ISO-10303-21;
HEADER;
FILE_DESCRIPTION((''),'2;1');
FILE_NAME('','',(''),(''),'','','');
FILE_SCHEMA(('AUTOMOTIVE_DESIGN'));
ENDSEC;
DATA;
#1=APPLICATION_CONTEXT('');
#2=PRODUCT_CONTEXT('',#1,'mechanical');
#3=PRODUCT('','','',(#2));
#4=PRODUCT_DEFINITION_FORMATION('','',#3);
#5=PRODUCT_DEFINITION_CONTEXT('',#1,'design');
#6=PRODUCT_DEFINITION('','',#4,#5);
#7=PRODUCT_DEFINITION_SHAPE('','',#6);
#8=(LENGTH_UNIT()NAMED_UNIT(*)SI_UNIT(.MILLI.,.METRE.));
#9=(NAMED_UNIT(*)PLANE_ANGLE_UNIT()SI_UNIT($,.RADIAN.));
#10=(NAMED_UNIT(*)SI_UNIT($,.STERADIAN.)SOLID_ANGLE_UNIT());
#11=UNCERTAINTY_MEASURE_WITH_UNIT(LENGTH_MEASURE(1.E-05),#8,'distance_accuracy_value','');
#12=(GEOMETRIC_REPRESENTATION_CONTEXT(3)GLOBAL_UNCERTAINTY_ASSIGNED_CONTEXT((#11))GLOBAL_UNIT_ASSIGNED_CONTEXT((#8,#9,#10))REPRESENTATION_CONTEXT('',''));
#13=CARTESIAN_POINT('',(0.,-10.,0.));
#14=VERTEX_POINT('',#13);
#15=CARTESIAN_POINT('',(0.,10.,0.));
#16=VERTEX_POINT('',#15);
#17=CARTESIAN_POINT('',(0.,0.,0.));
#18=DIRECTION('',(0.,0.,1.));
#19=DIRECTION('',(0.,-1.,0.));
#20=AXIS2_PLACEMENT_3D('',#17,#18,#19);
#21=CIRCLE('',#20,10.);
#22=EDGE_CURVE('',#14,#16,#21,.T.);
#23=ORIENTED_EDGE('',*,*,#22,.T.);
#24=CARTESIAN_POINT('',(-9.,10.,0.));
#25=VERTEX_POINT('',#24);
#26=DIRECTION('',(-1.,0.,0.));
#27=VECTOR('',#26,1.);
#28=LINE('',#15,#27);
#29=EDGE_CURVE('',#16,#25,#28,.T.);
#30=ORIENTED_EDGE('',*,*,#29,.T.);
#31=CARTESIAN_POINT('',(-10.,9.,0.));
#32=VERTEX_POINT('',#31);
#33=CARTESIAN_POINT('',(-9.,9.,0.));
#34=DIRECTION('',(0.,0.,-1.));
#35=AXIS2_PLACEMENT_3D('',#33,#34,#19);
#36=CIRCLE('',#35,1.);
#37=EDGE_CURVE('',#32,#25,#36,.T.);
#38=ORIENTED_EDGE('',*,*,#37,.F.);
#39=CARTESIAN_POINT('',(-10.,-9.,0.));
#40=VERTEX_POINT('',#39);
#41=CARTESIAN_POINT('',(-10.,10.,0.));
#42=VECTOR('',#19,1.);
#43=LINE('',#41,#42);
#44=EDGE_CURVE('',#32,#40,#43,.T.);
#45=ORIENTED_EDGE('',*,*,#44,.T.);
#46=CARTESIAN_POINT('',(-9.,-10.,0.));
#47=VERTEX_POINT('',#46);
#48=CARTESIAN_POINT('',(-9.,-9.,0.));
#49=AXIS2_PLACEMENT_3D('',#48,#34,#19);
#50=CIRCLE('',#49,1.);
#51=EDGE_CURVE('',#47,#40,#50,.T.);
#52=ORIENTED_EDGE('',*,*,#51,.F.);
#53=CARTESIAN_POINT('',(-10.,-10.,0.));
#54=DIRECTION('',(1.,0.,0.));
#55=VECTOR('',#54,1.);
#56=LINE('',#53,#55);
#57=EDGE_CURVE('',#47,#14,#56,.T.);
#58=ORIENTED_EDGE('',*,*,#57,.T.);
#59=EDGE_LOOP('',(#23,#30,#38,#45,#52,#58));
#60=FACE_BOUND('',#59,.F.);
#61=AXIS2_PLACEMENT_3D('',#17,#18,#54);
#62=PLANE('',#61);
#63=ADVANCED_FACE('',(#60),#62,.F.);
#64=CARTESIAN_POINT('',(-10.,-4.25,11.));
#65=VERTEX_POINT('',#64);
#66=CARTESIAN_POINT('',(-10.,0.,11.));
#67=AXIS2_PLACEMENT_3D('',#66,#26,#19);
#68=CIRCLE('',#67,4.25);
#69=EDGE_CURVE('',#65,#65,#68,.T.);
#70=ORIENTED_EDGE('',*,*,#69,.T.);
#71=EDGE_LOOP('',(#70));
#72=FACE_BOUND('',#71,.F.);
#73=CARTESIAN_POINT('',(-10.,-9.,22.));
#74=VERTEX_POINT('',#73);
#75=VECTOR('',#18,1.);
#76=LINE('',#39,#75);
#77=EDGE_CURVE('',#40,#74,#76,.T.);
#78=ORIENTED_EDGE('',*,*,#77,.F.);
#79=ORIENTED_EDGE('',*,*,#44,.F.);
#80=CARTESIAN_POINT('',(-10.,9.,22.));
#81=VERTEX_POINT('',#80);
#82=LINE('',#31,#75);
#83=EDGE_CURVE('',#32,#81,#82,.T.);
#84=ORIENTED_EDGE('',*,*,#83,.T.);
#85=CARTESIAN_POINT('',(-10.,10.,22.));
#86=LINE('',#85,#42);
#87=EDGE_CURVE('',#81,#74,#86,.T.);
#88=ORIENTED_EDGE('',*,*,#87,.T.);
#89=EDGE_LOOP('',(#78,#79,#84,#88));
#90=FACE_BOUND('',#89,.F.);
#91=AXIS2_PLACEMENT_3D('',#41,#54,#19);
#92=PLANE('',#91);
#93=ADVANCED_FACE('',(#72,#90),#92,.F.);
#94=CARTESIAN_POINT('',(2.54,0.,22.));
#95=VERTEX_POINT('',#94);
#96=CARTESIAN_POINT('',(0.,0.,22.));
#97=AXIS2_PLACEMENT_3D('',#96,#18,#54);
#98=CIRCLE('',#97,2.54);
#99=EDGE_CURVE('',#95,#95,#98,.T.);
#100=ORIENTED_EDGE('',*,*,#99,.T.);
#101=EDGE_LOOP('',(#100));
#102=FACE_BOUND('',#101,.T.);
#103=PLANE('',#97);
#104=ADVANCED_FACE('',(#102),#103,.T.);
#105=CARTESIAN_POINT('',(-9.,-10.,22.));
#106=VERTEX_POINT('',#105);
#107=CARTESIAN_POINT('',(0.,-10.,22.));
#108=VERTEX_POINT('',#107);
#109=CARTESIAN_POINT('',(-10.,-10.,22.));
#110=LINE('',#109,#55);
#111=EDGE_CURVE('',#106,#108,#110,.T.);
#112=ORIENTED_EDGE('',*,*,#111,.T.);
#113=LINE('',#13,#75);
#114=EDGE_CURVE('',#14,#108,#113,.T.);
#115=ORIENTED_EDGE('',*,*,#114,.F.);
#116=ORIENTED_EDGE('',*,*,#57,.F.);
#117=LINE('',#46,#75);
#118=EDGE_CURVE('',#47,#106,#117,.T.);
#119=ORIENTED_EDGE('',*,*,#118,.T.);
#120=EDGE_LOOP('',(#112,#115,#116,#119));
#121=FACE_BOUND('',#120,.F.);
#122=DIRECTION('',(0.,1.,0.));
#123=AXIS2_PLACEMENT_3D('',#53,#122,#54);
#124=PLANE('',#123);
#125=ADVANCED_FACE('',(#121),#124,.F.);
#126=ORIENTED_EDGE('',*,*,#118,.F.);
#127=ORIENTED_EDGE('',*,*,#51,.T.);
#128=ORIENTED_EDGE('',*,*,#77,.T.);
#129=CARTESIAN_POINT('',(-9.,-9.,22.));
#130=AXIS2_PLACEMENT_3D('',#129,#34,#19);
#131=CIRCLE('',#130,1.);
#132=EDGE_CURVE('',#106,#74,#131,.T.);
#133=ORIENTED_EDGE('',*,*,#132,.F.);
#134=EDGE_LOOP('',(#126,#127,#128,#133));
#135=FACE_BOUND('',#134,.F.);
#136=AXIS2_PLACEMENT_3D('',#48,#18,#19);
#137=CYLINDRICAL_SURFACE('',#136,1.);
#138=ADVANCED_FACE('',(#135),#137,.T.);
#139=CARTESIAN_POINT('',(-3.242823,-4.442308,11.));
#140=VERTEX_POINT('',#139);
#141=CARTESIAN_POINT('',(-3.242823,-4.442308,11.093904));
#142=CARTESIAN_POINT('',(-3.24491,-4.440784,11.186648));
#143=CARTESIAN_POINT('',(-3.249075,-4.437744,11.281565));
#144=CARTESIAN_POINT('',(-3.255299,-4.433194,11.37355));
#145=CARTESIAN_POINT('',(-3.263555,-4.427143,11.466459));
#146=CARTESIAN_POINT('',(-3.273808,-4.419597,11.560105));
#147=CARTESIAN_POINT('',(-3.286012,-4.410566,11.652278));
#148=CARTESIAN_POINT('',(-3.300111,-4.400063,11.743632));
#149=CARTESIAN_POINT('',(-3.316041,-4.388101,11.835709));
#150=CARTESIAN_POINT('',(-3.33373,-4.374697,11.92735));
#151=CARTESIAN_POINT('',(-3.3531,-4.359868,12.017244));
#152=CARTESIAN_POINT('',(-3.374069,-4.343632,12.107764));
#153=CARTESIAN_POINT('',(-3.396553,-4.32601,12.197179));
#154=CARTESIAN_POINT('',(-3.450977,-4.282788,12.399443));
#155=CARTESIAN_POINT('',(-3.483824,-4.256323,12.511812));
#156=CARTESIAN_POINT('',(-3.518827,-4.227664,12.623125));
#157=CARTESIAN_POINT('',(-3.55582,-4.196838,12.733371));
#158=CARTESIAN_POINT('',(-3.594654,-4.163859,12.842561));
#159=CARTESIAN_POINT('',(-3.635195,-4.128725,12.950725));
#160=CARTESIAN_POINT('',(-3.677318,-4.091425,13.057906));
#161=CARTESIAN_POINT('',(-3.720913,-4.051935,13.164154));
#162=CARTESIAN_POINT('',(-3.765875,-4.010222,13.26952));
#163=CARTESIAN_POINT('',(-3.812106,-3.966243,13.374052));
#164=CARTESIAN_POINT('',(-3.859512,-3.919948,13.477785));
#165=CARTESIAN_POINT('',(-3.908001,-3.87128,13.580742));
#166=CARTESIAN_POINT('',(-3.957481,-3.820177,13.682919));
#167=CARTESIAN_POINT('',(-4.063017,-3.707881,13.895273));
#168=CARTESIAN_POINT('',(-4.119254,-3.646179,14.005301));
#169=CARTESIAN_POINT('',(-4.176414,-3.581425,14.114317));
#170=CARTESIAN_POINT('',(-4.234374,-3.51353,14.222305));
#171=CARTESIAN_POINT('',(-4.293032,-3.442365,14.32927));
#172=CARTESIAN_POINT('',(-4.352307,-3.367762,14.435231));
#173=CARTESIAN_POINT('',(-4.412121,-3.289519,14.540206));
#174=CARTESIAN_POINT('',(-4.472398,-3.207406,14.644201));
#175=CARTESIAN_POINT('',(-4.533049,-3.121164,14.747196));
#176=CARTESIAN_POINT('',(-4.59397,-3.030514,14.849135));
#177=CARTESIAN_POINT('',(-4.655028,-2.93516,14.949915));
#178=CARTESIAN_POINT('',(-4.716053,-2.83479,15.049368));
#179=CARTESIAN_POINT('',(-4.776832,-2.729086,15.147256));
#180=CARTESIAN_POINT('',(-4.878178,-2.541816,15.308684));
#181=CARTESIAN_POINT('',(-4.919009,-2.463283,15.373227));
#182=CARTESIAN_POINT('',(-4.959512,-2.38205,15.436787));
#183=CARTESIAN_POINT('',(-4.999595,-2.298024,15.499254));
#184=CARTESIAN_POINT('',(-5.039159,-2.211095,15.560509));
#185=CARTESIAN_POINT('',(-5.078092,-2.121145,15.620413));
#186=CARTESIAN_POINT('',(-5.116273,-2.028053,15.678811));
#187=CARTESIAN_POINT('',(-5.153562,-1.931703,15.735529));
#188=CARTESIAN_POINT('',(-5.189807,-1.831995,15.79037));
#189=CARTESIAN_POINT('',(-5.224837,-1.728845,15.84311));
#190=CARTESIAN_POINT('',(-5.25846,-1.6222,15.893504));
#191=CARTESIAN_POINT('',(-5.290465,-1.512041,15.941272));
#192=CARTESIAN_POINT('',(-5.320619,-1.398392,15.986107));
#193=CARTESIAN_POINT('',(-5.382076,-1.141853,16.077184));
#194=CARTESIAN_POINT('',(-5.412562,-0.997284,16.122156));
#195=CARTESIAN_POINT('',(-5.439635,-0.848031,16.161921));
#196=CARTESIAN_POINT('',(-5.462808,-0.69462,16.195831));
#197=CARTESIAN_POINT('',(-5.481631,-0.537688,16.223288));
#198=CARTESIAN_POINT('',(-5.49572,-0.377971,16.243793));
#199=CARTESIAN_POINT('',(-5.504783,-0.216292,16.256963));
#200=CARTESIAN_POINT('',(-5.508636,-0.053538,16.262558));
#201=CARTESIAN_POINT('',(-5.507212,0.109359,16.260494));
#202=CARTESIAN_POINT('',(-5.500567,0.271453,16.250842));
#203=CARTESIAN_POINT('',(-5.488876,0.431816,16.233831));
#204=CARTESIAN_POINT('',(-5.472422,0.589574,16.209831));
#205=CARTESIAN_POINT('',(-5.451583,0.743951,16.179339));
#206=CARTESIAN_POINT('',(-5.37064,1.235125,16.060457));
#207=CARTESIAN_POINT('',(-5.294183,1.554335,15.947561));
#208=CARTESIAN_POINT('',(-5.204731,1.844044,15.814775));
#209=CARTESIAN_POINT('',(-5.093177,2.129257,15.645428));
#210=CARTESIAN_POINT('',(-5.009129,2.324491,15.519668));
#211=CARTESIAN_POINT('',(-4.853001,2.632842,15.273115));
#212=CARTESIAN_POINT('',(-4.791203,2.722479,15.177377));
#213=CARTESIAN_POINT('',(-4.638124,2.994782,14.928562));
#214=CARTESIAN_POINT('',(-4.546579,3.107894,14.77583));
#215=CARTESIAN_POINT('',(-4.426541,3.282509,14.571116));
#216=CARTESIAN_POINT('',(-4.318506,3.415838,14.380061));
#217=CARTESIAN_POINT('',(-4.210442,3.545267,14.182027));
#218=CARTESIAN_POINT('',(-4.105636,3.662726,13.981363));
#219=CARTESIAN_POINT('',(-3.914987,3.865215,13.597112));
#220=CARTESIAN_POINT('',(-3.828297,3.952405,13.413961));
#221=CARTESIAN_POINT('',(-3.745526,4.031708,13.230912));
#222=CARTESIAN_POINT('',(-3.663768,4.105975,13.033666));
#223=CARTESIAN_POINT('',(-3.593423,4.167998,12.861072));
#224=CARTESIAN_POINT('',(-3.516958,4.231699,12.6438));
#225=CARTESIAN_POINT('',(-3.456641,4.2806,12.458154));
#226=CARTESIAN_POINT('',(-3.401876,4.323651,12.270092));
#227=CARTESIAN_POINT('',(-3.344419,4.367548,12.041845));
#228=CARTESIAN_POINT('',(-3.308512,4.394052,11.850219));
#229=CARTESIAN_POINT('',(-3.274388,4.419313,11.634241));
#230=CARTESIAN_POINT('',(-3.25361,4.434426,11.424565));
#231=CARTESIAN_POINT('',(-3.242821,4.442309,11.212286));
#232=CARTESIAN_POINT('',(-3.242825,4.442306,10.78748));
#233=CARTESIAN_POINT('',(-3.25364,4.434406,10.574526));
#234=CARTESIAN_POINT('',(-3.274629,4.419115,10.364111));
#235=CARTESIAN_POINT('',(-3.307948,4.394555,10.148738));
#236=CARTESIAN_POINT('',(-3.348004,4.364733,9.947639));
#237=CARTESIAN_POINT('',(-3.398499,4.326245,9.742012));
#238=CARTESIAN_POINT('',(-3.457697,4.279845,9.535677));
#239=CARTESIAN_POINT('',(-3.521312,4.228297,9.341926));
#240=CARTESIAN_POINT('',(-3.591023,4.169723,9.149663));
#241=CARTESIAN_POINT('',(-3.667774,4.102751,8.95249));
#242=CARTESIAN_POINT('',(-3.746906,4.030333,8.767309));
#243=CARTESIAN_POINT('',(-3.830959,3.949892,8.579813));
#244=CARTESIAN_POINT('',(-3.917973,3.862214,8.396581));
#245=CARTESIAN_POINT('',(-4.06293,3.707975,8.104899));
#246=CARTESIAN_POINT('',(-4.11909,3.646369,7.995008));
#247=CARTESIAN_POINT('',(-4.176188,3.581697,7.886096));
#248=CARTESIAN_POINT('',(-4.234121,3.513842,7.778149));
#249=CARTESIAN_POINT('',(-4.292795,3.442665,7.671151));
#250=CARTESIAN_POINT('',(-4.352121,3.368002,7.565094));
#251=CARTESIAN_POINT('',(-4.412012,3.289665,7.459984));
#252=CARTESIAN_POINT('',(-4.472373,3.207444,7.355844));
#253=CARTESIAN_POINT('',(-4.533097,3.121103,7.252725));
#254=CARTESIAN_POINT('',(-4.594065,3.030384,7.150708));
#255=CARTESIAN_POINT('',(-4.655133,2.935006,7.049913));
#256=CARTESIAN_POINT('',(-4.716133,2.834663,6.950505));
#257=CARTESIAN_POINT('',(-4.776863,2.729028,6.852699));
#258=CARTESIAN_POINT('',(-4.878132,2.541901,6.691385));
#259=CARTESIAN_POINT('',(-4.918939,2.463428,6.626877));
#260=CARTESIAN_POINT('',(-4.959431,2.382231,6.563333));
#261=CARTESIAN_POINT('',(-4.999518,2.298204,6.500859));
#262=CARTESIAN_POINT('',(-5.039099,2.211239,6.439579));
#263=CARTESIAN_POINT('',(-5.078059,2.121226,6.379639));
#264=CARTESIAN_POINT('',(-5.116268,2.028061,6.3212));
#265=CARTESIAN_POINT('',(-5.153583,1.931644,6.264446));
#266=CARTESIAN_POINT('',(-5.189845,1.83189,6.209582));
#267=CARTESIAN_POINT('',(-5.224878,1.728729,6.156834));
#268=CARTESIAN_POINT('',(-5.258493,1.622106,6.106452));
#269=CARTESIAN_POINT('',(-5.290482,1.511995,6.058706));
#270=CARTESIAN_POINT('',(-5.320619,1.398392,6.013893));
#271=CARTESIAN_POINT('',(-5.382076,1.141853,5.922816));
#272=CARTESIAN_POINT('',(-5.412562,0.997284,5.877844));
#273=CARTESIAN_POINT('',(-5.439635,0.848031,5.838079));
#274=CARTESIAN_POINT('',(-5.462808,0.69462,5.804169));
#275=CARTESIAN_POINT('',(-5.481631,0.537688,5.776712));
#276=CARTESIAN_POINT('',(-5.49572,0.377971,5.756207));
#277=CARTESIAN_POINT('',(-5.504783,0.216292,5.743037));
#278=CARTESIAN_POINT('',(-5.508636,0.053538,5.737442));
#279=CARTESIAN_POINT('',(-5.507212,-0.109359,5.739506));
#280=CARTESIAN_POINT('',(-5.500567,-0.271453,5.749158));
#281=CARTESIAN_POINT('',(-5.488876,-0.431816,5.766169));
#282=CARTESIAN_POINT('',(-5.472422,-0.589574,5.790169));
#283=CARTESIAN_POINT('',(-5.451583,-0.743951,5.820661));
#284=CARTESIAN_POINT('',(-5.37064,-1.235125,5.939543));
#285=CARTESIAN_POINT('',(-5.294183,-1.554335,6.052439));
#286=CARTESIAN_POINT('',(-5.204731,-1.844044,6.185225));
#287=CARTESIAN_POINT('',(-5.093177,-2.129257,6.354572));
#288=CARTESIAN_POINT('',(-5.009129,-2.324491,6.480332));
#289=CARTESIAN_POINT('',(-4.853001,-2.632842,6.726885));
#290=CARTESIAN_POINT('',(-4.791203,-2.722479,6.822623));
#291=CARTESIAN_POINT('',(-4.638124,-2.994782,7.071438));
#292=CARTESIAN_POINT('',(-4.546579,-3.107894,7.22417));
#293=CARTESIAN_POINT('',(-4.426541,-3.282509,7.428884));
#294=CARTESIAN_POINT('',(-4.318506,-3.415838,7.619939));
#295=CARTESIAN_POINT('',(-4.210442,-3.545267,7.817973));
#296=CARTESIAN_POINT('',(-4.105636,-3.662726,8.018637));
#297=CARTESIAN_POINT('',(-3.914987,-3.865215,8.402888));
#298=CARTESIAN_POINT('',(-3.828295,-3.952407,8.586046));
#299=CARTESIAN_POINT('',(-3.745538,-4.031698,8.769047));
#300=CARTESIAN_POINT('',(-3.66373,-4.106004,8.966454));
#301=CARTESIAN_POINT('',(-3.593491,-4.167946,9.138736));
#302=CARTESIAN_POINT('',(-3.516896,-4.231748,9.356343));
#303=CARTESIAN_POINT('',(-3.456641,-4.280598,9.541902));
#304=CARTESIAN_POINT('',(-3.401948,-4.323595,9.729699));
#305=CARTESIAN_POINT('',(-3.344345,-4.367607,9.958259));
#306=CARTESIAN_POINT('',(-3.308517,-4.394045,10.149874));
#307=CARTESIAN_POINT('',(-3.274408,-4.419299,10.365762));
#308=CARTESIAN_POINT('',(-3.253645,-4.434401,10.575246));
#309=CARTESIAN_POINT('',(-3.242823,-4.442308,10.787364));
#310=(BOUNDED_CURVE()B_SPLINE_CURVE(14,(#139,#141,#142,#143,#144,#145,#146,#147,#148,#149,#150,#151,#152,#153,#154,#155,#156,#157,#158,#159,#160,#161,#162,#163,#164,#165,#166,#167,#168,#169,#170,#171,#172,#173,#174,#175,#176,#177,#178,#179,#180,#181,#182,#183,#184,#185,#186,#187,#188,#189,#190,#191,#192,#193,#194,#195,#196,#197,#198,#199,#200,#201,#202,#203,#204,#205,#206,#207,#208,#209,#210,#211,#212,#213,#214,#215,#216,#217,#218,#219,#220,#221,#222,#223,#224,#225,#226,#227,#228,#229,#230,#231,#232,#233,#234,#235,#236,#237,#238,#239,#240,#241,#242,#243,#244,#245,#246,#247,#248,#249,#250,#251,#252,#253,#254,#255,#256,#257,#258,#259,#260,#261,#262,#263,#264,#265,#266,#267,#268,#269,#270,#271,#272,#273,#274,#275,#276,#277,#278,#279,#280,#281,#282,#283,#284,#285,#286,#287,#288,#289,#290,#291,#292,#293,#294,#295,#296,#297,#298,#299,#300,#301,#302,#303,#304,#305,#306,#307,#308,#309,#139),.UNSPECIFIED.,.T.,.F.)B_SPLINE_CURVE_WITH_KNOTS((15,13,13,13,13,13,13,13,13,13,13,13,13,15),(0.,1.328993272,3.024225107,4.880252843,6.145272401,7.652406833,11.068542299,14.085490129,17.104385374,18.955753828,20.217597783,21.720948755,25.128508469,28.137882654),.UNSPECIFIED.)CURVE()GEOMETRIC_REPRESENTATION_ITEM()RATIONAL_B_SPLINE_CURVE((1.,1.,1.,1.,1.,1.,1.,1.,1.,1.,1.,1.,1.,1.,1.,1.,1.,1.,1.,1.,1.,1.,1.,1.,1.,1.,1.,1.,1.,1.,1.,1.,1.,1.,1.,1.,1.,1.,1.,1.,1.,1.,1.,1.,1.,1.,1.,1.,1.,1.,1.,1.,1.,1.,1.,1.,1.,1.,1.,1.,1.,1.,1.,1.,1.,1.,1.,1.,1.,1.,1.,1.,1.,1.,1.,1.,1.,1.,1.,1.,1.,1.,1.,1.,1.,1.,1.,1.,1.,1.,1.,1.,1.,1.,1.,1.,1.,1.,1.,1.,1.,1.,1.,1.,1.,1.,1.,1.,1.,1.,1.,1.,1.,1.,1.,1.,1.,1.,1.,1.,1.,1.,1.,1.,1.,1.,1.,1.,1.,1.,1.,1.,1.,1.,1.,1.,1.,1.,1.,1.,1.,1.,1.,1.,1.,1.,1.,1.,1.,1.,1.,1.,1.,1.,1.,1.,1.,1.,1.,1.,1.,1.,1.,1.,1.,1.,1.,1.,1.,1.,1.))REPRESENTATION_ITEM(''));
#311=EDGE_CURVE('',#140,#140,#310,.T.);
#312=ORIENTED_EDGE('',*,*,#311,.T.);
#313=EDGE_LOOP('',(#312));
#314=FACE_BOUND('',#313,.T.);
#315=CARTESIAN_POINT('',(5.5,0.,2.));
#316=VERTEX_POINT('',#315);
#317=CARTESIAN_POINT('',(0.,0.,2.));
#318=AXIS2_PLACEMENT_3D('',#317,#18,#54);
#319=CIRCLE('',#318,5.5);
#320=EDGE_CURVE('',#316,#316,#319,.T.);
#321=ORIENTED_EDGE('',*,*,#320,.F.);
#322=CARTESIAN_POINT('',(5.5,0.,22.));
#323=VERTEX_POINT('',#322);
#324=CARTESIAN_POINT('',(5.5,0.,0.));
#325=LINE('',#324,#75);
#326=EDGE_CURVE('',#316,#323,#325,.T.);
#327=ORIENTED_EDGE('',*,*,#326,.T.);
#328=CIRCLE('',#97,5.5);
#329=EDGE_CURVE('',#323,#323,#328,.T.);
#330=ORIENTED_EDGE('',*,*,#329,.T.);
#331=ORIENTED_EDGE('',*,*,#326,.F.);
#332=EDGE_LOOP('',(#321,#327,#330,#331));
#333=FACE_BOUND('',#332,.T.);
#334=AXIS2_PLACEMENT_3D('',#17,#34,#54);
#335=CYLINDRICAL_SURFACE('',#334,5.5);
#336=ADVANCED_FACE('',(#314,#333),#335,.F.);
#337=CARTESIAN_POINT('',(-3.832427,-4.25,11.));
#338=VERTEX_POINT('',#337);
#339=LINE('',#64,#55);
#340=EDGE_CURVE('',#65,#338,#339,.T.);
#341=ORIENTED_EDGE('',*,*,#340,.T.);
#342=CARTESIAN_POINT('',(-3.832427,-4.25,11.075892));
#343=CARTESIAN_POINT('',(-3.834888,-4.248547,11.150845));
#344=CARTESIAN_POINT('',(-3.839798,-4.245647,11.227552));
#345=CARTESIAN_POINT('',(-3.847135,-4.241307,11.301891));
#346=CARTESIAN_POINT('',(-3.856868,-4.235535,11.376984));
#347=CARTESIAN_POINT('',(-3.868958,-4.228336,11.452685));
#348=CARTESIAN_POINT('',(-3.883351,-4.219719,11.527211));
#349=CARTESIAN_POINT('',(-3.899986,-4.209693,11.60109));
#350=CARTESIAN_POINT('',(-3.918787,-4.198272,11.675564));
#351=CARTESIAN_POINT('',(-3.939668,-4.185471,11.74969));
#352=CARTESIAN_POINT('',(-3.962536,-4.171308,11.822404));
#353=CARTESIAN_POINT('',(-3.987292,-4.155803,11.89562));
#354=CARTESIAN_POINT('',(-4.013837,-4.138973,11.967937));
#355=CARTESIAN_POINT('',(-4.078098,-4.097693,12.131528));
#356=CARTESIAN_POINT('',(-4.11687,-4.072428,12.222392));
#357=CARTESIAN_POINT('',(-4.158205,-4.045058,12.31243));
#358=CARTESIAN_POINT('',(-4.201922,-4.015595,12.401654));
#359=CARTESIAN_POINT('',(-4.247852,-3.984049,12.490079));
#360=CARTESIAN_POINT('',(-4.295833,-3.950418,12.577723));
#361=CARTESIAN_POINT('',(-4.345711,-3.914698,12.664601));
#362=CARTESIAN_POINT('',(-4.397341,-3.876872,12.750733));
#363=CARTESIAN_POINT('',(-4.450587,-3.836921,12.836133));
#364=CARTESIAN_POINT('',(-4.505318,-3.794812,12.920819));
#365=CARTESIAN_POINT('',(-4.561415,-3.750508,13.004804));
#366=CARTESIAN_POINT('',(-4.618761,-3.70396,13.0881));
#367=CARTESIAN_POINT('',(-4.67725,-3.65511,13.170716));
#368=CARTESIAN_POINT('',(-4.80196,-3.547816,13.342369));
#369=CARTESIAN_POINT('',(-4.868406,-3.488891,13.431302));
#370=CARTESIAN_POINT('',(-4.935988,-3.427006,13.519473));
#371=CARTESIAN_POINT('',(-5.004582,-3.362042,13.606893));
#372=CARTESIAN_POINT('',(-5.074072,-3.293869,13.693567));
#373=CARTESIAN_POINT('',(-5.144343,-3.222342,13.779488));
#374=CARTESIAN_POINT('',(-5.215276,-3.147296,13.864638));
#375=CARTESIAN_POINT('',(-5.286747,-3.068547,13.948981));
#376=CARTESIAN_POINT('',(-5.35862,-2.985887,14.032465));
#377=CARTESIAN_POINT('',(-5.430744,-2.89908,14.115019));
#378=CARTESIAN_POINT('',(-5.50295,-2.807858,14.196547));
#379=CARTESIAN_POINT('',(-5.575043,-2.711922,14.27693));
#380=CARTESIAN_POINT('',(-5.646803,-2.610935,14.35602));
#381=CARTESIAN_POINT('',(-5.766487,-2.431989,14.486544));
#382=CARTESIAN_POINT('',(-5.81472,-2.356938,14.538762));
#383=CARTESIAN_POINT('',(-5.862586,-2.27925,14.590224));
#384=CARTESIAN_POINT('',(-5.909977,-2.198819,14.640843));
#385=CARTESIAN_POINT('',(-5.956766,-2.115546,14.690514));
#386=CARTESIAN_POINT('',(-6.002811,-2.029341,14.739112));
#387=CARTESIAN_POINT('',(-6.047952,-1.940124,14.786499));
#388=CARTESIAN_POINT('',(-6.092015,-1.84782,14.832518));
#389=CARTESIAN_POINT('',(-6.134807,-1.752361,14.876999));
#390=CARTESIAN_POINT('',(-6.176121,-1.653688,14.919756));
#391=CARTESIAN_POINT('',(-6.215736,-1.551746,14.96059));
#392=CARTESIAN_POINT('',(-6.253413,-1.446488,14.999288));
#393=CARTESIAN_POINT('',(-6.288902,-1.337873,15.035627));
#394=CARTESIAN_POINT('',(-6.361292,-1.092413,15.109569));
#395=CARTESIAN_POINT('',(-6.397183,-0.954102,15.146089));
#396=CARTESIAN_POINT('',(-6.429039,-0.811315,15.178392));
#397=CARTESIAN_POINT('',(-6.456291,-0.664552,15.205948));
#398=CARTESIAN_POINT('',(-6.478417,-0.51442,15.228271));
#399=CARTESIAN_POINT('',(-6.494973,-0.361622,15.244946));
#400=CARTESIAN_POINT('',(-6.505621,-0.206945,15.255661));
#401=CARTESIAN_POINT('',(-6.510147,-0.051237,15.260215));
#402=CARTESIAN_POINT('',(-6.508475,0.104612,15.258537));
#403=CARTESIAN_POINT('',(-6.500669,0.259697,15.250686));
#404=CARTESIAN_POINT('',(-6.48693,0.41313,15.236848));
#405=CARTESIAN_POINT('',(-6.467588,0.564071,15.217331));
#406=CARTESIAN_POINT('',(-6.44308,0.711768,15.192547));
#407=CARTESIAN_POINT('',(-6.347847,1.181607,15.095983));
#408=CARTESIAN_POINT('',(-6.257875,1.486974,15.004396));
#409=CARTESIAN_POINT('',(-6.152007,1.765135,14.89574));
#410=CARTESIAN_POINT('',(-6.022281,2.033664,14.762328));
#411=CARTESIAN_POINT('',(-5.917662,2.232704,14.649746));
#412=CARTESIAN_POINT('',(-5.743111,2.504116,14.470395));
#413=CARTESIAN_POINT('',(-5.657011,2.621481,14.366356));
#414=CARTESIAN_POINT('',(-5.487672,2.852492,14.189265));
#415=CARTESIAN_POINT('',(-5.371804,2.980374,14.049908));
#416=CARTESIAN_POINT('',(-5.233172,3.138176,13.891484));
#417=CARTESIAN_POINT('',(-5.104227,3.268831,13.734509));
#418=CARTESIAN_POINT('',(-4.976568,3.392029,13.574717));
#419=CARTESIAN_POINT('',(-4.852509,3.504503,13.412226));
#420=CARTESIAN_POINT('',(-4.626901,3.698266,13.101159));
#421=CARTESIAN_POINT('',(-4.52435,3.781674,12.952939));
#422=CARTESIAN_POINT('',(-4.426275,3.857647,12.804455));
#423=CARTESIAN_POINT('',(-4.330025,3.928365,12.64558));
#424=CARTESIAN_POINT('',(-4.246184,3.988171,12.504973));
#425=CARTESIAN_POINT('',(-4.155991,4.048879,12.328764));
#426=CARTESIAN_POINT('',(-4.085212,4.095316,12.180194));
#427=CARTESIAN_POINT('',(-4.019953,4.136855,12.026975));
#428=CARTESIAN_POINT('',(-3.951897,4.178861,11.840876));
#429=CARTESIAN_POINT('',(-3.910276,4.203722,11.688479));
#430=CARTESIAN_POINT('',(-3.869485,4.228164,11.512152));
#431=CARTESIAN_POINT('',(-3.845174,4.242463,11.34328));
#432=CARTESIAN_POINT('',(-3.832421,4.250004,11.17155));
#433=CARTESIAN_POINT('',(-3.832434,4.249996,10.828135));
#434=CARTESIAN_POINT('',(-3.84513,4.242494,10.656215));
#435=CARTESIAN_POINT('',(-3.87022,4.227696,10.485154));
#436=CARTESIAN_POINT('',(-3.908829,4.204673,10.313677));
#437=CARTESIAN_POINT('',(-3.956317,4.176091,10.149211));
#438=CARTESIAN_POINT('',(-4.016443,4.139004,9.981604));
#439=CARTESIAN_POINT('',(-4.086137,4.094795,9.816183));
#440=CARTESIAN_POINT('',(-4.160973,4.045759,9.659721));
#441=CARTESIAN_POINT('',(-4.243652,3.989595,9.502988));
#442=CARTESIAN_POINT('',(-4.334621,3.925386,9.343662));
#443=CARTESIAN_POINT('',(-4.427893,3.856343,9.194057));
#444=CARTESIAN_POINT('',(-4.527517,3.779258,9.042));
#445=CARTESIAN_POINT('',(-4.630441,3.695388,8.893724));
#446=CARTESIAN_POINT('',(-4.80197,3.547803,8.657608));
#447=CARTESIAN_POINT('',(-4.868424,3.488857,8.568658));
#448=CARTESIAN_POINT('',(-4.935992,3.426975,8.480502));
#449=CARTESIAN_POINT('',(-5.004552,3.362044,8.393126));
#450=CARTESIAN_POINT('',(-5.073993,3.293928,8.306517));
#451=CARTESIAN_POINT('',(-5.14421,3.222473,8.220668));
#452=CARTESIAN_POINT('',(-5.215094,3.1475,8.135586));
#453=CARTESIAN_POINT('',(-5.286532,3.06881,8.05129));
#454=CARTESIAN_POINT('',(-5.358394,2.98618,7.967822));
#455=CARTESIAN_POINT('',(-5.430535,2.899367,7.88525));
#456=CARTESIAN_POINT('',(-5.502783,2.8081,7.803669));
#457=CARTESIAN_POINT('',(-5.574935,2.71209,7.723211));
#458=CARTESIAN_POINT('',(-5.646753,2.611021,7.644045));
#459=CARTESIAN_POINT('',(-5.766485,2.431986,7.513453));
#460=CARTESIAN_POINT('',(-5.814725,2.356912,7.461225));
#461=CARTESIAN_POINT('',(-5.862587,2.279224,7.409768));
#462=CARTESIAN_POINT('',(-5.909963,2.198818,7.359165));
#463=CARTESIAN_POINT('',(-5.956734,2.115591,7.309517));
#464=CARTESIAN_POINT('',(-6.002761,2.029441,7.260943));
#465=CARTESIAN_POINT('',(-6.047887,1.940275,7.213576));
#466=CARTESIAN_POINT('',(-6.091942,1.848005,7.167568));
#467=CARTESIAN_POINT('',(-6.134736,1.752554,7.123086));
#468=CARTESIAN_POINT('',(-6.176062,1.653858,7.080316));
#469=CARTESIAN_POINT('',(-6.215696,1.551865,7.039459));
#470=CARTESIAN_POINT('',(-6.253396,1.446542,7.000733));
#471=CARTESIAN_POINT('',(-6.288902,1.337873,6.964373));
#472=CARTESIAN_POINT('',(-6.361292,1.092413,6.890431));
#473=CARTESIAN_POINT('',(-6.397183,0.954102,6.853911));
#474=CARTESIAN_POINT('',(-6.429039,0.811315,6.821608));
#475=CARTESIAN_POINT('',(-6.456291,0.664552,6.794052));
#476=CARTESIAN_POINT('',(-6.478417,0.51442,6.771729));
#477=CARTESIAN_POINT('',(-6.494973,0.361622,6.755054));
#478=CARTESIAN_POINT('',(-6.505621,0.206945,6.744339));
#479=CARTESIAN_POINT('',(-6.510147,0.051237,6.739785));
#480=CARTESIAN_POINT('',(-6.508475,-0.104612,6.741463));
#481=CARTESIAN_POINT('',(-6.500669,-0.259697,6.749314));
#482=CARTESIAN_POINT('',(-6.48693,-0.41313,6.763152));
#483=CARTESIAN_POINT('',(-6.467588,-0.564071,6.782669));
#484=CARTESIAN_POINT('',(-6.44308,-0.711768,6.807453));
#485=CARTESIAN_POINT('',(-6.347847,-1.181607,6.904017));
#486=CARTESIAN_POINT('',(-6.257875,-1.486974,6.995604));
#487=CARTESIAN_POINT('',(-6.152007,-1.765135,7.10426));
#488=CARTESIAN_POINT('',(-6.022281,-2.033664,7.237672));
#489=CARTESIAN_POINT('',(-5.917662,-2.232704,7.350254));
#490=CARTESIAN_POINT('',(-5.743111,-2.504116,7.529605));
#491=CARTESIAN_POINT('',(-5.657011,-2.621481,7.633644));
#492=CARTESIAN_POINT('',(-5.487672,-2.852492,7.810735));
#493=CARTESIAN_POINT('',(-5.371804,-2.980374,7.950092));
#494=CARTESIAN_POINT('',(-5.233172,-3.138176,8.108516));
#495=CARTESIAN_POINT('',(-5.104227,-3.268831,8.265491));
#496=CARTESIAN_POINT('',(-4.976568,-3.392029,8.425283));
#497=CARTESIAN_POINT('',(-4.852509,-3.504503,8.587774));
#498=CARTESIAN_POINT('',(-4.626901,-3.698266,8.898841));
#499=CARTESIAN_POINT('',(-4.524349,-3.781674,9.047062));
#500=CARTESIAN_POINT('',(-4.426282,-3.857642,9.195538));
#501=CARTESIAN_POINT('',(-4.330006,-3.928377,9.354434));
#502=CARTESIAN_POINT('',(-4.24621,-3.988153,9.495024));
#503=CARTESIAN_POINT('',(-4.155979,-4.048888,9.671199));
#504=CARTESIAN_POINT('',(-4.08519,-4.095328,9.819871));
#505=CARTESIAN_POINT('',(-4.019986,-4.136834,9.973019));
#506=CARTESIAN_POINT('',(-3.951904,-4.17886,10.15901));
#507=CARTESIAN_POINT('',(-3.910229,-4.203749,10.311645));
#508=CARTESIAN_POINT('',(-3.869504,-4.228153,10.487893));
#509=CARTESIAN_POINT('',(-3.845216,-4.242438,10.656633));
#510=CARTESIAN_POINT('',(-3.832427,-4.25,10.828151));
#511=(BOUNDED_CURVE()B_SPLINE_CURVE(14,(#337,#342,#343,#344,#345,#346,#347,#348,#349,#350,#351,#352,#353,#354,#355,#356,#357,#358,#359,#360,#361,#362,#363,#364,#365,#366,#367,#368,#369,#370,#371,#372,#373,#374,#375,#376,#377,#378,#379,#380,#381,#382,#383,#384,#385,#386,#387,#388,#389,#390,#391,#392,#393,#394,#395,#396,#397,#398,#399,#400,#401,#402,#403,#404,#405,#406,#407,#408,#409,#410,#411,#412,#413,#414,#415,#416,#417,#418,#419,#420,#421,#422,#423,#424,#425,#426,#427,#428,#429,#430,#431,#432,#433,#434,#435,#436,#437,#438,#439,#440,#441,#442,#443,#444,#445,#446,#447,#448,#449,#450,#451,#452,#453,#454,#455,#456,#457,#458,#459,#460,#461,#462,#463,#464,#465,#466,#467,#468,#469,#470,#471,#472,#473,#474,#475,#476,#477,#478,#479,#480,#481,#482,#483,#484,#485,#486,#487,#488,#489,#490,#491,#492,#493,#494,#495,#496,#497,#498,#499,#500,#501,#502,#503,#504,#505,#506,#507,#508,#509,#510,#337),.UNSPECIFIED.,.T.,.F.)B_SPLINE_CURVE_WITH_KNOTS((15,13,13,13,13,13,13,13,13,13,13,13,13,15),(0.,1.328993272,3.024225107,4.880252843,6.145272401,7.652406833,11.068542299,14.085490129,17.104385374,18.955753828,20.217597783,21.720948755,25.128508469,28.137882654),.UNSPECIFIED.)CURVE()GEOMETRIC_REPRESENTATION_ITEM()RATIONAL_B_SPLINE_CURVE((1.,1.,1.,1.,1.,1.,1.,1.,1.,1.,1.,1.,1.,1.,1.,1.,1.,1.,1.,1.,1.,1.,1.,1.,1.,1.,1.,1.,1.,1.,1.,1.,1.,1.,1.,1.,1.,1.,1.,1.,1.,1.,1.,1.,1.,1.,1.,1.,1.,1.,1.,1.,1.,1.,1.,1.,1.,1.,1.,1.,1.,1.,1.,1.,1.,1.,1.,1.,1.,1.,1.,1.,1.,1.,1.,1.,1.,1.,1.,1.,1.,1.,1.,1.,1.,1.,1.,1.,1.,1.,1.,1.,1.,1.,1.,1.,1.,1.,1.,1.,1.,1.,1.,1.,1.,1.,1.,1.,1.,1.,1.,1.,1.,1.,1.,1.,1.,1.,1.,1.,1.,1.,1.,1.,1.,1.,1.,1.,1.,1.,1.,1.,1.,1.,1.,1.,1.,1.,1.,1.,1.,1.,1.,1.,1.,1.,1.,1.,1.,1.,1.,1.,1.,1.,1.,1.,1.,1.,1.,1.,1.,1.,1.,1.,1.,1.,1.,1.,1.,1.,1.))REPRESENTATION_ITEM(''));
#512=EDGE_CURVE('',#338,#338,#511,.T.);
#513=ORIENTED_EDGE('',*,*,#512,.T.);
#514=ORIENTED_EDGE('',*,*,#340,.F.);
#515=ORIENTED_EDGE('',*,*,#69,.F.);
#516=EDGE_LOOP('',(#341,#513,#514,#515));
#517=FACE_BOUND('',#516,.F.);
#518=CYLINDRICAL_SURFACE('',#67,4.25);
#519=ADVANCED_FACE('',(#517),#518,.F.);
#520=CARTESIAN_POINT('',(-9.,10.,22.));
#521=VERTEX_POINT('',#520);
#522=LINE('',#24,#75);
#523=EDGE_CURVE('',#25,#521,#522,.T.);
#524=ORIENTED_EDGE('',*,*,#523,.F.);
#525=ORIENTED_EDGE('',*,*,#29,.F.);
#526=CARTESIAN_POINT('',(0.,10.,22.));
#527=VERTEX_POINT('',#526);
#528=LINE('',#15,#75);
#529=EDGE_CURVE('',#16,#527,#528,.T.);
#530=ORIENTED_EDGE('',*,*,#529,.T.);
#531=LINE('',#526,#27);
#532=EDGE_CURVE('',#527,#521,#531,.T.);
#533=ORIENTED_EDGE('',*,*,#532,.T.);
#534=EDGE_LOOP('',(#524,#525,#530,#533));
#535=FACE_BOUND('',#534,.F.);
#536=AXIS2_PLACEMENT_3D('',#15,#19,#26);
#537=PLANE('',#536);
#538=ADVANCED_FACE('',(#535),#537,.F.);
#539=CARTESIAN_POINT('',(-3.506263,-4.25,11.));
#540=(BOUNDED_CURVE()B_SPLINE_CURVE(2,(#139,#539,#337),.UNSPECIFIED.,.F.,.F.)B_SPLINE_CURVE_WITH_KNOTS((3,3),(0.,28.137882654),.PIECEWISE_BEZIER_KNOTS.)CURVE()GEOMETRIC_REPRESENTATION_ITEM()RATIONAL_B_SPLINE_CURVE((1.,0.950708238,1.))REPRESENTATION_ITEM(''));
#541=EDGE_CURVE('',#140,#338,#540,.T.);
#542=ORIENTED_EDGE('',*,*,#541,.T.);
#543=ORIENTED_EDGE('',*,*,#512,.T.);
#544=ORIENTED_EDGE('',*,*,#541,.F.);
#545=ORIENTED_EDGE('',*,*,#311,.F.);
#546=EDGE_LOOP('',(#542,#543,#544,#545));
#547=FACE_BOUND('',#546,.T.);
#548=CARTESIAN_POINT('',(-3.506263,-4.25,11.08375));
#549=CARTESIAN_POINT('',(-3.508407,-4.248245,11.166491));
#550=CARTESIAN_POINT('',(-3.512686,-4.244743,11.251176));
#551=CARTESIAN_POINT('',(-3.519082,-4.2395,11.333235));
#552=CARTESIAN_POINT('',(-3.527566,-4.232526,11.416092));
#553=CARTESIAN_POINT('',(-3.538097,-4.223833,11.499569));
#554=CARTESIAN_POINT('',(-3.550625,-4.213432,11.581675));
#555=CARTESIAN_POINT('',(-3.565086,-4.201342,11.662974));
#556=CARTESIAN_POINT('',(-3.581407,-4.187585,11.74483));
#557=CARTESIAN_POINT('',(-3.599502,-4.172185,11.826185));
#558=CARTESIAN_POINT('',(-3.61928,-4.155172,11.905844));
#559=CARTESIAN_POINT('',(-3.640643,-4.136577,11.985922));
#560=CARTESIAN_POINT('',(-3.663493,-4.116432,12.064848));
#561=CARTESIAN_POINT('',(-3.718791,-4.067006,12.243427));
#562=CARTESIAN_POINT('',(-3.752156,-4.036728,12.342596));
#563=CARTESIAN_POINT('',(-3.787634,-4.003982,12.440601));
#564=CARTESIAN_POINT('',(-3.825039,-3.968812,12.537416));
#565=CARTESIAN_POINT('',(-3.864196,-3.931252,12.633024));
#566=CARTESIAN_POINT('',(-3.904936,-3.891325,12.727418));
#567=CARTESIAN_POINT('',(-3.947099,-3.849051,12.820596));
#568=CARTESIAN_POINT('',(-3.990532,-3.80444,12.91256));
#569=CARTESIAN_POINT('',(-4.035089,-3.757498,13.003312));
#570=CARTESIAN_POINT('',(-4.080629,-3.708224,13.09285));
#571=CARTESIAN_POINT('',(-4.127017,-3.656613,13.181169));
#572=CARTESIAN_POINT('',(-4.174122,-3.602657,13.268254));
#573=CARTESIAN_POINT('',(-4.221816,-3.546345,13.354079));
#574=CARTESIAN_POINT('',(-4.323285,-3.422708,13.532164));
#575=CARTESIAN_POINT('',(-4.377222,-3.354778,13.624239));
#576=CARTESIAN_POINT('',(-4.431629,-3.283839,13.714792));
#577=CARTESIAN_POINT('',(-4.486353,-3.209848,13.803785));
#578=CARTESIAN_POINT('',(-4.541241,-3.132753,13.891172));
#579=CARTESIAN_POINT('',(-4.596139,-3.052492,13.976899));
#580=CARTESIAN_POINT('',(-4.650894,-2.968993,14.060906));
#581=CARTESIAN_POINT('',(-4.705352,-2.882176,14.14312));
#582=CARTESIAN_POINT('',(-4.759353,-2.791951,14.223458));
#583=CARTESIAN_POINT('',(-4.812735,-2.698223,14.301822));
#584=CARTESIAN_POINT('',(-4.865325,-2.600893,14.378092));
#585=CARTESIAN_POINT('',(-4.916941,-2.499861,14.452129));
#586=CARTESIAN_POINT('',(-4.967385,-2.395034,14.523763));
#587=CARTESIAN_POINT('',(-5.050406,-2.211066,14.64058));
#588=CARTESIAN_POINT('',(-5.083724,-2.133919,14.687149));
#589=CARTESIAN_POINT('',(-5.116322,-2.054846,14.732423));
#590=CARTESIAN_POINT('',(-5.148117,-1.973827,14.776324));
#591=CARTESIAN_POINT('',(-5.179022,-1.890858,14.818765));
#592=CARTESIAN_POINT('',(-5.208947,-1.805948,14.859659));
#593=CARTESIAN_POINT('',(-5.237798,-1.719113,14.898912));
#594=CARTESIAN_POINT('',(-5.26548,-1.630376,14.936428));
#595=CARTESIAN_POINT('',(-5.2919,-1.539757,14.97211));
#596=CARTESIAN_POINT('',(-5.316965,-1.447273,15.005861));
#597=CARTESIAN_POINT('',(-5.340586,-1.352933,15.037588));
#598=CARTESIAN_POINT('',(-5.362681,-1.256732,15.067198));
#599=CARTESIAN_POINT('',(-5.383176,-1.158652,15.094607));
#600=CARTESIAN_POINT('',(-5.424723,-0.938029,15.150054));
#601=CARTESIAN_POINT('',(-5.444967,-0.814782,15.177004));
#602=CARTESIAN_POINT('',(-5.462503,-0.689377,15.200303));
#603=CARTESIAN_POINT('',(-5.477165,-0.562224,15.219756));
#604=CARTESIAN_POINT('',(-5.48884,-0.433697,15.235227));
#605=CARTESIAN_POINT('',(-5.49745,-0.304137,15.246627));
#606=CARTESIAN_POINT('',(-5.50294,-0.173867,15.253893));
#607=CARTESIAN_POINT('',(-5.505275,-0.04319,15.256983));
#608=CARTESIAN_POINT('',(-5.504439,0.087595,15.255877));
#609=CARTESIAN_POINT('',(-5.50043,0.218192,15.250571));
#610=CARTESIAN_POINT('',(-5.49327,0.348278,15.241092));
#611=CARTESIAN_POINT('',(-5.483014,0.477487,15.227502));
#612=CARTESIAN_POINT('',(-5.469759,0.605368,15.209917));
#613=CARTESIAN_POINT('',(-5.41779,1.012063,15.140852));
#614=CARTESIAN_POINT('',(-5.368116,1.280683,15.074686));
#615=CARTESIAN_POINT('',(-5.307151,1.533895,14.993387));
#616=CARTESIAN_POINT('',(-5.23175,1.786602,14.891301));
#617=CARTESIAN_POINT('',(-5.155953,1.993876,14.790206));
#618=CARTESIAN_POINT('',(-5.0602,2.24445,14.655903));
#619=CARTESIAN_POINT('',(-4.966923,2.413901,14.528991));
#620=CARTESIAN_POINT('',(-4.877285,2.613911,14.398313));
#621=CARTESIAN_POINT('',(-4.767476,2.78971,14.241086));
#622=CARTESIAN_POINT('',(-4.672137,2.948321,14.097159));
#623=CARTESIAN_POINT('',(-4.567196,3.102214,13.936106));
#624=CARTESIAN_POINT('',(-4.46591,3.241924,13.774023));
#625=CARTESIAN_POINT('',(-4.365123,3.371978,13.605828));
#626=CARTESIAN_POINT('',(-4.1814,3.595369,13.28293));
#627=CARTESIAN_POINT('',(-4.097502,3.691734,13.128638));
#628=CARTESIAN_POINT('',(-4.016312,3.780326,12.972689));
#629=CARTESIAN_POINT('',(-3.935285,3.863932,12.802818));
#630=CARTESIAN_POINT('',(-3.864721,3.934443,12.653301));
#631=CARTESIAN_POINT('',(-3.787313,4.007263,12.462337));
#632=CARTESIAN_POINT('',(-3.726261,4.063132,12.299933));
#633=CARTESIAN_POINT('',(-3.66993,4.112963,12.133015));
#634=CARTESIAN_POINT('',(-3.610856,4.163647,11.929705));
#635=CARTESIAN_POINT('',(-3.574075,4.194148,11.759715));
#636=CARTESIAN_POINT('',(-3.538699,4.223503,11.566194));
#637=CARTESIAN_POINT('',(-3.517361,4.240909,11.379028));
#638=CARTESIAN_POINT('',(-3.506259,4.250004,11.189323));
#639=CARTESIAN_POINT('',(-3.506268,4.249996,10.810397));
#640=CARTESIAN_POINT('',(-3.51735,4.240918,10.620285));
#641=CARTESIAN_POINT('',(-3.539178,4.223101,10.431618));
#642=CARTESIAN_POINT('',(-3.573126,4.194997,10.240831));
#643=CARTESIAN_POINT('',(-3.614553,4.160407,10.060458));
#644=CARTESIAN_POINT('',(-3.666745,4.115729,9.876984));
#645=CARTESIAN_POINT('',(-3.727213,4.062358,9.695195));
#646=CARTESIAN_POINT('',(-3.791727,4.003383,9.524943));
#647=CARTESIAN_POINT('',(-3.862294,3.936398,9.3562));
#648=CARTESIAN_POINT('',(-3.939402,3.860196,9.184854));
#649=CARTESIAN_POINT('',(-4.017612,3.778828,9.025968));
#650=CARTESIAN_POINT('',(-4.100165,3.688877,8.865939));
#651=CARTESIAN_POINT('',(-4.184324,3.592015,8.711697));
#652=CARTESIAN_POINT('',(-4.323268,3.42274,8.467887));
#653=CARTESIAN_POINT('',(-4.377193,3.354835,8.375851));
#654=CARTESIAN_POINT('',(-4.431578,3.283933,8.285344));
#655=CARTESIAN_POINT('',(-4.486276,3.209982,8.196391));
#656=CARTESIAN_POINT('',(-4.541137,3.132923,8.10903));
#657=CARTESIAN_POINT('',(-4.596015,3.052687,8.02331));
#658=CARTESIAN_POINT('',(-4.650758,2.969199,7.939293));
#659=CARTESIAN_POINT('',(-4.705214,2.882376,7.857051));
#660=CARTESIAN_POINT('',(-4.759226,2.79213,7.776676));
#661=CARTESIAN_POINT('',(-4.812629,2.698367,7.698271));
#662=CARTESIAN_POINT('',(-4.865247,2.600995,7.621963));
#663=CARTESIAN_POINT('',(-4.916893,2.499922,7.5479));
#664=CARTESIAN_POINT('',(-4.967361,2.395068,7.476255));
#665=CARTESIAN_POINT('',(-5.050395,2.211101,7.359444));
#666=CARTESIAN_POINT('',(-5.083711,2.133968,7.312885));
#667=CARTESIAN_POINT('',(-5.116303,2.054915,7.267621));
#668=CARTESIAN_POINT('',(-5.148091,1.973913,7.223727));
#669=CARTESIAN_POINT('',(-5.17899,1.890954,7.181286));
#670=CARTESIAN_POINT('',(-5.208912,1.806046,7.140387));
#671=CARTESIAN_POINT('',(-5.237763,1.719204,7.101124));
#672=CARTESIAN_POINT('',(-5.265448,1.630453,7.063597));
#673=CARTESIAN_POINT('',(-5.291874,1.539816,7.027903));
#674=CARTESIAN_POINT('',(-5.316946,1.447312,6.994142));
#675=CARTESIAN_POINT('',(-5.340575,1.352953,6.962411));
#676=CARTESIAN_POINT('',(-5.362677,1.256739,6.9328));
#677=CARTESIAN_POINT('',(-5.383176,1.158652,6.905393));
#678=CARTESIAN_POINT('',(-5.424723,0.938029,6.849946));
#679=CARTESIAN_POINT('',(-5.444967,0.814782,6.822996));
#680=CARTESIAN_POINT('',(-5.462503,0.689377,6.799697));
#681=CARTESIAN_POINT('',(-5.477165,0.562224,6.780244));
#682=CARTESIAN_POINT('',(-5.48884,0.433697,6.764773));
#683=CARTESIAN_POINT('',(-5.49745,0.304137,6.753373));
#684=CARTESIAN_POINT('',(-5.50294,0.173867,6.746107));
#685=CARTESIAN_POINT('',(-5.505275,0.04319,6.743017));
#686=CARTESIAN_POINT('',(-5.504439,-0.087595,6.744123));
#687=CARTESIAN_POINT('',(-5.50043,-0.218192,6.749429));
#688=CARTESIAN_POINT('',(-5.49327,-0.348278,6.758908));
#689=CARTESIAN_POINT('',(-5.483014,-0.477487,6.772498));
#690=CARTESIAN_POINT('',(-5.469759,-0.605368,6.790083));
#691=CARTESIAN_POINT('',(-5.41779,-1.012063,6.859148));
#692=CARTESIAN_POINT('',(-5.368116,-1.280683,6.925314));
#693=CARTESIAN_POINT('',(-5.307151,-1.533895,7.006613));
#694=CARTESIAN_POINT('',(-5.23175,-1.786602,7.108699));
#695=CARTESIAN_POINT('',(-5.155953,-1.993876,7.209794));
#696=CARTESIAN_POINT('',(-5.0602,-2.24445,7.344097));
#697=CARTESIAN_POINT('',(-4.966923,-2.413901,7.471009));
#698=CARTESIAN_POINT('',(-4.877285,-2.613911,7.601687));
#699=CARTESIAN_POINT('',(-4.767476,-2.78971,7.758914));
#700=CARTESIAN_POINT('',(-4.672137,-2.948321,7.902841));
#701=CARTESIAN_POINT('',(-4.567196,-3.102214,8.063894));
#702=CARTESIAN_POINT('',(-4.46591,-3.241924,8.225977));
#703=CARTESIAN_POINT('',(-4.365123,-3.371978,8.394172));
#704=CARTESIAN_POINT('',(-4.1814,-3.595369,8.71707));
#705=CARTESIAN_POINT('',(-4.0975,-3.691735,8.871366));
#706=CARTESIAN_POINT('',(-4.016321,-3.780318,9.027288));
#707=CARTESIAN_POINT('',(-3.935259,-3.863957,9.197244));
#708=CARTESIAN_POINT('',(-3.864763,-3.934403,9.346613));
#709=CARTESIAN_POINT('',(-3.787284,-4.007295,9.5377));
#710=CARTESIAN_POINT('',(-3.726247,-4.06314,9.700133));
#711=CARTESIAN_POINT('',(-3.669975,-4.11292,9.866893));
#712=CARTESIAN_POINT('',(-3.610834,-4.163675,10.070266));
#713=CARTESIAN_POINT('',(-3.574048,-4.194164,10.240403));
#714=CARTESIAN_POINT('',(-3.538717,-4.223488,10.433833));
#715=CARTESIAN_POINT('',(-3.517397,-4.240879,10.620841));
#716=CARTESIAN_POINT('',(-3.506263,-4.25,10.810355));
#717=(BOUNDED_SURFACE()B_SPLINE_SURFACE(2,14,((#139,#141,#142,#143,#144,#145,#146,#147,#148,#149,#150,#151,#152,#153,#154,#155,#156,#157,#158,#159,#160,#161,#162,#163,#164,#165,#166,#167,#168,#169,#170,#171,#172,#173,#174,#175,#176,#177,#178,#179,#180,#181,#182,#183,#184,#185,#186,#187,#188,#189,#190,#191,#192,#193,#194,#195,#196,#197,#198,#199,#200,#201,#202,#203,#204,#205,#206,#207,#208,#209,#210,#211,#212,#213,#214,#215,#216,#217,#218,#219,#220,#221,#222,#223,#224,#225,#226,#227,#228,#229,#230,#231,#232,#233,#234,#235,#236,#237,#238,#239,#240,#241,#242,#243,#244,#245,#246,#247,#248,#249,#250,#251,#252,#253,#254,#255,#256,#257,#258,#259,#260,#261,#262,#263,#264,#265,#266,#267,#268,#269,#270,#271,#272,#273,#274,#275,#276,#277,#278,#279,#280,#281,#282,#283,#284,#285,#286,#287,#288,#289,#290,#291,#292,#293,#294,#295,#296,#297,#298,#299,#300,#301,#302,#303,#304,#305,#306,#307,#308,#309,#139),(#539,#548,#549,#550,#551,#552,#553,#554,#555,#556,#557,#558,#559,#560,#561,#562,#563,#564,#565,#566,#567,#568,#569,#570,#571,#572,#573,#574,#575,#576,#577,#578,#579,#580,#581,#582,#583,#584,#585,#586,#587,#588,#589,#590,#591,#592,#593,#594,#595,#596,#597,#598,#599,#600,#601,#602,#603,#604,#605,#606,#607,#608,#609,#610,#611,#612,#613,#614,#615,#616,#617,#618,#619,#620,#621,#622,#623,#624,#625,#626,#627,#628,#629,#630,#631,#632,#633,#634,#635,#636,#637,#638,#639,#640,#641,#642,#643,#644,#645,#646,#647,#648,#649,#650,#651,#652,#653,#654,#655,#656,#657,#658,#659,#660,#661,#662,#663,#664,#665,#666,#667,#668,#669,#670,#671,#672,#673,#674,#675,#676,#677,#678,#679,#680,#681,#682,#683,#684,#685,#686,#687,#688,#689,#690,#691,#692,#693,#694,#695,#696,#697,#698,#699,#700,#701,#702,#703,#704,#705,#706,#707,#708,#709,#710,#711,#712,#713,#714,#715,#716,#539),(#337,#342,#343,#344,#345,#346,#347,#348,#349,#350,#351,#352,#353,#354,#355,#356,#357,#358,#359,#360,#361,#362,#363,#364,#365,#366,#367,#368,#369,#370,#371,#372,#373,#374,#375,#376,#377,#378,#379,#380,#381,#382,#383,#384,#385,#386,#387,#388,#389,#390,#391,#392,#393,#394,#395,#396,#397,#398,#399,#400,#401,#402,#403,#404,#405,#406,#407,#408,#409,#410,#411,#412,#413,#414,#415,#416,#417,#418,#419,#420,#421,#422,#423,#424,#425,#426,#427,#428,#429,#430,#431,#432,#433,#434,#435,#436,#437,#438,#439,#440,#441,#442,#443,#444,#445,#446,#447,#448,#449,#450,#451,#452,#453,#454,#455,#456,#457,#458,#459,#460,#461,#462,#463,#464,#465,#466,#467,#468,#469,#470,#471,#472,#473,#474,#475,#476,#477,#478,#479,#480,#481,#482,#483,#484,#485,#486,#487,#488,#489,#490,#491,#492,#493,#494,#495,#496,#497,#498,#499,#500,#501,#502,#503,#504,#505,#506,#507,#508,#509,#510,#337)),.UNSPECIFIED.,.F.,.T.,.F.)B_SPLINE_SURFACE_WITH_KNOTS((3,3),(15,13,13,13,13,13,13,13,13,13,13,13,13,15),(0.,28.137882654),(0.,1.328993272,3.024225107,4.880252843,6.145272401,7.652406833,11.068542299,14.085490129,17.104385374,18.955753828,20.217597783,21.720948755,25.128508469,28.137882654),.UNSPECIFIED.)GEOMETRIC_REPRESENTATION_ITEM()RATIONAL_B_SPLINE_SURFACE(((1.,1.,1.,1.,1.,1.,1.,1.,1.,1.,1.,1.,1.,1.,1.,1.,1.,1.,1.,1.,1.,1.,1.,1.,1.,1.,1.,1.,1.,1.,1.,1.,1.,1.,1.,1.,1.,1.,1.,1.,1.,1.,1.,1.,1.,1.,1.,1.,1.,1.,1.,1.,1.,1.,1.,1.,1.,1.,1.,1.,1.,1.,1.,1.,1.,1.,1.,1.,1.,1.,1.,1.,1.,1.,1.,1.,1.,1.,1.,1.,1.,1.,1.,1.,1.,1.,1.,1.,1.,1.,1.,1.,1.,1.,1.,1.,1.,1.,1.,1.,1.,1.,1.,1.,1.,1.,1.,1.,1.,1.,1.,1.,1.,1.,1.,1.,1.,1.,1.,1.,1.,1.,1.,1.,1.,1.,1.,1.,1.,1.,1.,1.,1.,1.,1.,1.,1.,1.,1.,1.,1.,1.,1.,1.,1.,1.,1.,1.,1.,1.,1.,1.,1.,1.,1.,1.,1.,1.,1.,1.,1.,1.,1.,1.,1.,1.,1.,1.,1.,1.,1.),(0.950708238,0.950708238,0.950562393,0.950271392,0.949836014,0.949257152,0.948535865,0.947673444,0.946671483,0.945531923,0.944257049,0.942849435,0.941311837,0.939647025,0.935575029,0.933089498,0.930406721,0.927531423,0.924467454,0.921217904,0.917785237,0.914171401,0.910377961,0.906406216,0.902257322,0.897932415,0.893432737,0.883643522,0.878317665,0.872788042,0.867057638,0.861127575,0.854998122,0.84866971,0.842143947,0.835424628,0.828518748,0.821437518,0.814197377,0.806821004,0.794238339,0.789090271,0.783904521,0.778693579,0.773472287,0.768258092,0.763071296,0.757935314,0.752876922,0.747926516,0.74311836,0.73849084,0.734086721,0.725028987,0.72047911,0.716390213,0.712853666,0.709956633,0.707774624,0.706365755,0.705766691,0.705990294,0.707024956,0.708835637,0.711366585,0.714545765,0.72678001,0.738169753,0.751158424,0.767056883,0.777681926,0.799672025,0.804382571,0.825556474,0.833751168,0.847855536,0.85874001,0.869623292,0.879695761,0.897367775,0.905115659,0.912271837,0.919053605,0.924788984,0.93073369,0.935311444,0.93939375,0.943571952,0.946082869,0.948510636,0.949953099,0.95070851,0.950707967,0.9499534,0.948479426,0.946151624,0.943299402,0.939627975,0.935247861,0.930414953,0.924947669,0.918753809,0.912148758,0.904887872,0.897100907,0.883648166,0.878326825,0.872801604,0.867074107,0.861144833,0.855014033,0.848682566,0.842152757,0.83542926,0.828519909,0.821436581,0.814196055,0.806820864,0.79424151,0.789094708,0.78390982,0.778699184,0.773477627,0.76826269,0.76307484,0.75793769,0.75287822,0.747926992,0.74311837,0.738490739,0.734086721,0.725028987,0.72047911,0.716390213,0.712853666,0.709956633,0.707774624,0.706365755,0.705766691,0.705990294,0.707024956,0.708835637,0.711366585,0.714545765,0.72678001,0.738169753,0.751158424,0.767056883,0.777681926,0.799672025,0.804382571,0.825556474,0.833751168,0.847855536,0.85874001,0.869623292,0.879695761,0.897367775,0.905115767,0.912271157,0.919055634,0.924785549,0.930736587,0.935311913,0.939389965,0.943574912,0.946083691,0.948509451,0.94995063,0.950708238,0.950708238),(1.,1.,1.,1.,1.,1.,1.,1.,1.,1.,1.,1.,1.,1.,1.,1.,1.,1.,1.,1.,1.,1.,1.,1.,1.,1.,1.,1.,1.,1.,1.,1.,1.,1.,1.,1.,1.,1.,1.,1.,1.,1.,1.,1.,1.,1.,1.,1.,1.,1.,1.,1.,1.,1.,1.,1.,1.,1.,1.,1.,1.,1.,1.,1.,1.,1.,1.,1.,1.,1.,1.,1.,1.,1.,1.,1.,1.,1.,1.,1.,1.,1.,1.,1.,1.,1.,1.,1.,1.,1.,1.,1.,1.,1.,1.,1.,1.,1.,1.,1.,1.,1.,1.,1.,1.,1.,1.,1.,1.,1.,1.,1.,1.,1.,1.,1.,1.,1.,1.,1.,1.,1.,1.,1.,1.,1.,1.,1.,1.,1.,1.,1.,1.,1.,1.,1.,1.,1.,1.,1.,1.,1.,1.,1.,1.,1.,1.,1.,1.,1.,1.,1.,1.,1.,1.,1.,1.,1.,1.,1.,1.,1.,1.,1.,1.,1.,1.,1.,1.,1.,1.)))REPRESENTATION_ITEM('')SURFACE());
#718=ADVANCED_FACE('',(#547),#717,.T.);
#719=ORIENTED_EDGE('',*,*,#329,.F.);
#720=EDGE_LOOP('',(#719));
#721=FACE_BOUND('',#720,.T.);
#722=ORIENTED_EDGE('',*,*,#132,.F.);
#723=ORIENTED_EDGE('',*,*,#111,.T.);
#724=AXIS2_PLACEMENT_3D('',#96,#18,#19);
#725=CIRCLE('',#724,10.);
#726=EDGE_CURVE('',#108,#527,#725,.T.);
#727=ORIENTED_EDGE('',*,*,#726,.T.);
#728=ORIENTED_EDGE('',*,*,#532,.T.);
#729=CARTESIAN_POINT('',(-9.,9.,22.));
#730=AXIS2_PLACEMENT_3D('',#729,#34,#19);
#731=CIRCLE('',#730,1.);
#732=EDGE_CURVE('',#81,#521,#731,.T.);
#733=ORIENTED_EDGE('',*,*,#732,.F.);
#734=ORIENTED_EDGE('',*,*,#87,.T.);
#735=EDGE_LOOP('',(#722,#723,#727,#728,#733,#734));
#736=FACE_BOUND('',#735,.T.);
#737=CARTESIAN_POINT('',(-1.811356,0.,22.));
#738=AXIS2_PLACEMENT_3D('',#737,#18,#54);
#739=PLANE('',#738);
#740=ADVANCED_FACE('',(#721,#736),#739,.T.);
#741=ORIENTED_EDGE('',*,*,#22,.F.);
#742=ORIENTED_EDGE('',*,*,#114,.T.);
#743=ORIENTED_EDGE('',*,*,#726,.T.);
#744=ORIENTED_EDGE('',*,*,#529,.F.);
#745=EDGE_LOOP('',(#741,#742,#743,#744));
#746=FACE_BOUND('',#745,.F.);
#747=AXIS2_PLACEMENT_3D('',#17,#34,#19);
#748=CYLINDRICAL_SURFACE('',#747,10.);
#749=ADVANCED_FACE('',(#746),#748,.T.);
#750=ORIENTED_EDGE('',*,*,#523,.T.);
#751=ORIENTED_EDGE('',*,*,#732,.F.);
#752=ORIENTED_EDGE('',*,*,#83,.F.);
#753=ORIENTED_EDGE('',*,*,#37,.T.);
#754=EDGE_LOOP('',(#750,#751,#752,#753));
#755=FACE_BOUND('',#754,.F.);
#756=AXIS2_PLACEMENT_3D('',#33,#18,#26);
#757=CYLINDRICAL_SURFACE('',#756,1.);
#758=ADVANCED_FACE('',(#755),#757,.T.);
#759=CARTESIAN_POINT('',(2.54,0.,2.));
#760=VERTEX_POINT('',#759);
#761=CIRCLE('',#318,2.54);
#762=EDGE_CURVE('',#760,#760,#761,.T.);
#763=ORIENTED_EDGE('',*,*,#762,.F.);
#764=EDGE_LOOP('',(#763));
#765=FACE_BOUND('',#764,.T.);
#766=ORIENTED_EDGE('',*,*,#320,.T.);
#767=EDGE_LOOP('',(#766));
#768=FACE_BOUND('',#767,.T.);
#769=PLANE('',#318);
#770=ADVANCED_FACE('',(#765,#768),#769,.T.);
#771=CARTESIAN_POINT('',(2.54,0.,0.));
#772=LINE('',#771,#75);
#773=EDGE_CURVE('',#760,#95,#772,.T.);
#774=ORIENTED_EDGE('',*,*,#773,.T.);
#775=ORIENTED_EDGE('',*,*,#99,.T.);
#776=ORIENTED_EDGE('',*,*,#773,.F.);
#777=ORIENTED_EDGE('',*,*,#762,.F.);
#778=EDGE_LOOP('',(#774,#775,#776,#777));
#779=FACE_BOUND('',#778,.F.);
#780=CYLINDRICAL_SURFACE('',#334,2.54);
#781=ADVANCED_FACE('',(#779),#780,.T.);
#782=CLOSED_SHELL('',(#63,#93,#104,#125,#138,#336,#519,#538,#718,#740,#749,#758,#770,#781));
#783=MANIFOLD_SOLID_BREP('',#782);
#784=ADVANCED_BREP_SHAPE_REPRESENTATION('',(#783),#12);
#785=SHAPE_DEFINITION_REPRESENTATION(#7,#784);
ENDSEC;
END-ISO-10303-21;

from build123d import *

# Parameters (mm, degrees)
F0_R     = 5.5
F1_DEPTH = 22
F0_R_2   = 2.54
F2_DEPTH = 2
F3_R     = 4.25
F4_DEPTH = 10
F5_DEPTH = 22
F6_R     = 1


with BuildPart() as f1:
    # F0 (on Top) → F1 (new body)
    with BuildSketch(Plane.XY):
        with BuildLine():
            Line((-10, -10), (0, -10))
            ThreePointArc((0, -10), (10, 0), (0, 10))
            Line((0, 10), (-10, 10))
            Line((-10, 10), (-10, -10))
        make_face()
        Circle(F0_R, mode=Mode.SUBTRACT)
    extrude(amount=F1_DEPTH)

    # F0 (on Top) → F2 (join)
    with BuildSketch(Plane.XY):
        Circle(F0_R)
        Circle(F0_R_2, mode=Mode.SUBTRACT)
    extrude(amount=F2_DEPTH)

    # F3 (on face) → F4 (cut)
    with BuildSketch(Plane(origin=(-10, 0, 0), x_dir=(0, -1, 0), z_dir=(-1, 0, 0))):
        with Locations((0, 11)):
            Circle(F3_R)
    extrude(amount=-F4_DEPTH, mode=Mode.SUBTRACT)

    # F0 (on Top) → F5 (join)
    with BuildSketch(Plane.XY):
        Circle(F0_R_2)
    extrude(amount=F5_DEPTH)

    # F6
    f6_edges = [f1.edges().sort_by_distance(p)[0] for p in [
        (-10, -10, 11),
        (-10, 10, 11),
        (-3.49106, 4.25, 11),
    ]]
    fillet(f6_edges, radius=F6_R)


solid = f1.part
